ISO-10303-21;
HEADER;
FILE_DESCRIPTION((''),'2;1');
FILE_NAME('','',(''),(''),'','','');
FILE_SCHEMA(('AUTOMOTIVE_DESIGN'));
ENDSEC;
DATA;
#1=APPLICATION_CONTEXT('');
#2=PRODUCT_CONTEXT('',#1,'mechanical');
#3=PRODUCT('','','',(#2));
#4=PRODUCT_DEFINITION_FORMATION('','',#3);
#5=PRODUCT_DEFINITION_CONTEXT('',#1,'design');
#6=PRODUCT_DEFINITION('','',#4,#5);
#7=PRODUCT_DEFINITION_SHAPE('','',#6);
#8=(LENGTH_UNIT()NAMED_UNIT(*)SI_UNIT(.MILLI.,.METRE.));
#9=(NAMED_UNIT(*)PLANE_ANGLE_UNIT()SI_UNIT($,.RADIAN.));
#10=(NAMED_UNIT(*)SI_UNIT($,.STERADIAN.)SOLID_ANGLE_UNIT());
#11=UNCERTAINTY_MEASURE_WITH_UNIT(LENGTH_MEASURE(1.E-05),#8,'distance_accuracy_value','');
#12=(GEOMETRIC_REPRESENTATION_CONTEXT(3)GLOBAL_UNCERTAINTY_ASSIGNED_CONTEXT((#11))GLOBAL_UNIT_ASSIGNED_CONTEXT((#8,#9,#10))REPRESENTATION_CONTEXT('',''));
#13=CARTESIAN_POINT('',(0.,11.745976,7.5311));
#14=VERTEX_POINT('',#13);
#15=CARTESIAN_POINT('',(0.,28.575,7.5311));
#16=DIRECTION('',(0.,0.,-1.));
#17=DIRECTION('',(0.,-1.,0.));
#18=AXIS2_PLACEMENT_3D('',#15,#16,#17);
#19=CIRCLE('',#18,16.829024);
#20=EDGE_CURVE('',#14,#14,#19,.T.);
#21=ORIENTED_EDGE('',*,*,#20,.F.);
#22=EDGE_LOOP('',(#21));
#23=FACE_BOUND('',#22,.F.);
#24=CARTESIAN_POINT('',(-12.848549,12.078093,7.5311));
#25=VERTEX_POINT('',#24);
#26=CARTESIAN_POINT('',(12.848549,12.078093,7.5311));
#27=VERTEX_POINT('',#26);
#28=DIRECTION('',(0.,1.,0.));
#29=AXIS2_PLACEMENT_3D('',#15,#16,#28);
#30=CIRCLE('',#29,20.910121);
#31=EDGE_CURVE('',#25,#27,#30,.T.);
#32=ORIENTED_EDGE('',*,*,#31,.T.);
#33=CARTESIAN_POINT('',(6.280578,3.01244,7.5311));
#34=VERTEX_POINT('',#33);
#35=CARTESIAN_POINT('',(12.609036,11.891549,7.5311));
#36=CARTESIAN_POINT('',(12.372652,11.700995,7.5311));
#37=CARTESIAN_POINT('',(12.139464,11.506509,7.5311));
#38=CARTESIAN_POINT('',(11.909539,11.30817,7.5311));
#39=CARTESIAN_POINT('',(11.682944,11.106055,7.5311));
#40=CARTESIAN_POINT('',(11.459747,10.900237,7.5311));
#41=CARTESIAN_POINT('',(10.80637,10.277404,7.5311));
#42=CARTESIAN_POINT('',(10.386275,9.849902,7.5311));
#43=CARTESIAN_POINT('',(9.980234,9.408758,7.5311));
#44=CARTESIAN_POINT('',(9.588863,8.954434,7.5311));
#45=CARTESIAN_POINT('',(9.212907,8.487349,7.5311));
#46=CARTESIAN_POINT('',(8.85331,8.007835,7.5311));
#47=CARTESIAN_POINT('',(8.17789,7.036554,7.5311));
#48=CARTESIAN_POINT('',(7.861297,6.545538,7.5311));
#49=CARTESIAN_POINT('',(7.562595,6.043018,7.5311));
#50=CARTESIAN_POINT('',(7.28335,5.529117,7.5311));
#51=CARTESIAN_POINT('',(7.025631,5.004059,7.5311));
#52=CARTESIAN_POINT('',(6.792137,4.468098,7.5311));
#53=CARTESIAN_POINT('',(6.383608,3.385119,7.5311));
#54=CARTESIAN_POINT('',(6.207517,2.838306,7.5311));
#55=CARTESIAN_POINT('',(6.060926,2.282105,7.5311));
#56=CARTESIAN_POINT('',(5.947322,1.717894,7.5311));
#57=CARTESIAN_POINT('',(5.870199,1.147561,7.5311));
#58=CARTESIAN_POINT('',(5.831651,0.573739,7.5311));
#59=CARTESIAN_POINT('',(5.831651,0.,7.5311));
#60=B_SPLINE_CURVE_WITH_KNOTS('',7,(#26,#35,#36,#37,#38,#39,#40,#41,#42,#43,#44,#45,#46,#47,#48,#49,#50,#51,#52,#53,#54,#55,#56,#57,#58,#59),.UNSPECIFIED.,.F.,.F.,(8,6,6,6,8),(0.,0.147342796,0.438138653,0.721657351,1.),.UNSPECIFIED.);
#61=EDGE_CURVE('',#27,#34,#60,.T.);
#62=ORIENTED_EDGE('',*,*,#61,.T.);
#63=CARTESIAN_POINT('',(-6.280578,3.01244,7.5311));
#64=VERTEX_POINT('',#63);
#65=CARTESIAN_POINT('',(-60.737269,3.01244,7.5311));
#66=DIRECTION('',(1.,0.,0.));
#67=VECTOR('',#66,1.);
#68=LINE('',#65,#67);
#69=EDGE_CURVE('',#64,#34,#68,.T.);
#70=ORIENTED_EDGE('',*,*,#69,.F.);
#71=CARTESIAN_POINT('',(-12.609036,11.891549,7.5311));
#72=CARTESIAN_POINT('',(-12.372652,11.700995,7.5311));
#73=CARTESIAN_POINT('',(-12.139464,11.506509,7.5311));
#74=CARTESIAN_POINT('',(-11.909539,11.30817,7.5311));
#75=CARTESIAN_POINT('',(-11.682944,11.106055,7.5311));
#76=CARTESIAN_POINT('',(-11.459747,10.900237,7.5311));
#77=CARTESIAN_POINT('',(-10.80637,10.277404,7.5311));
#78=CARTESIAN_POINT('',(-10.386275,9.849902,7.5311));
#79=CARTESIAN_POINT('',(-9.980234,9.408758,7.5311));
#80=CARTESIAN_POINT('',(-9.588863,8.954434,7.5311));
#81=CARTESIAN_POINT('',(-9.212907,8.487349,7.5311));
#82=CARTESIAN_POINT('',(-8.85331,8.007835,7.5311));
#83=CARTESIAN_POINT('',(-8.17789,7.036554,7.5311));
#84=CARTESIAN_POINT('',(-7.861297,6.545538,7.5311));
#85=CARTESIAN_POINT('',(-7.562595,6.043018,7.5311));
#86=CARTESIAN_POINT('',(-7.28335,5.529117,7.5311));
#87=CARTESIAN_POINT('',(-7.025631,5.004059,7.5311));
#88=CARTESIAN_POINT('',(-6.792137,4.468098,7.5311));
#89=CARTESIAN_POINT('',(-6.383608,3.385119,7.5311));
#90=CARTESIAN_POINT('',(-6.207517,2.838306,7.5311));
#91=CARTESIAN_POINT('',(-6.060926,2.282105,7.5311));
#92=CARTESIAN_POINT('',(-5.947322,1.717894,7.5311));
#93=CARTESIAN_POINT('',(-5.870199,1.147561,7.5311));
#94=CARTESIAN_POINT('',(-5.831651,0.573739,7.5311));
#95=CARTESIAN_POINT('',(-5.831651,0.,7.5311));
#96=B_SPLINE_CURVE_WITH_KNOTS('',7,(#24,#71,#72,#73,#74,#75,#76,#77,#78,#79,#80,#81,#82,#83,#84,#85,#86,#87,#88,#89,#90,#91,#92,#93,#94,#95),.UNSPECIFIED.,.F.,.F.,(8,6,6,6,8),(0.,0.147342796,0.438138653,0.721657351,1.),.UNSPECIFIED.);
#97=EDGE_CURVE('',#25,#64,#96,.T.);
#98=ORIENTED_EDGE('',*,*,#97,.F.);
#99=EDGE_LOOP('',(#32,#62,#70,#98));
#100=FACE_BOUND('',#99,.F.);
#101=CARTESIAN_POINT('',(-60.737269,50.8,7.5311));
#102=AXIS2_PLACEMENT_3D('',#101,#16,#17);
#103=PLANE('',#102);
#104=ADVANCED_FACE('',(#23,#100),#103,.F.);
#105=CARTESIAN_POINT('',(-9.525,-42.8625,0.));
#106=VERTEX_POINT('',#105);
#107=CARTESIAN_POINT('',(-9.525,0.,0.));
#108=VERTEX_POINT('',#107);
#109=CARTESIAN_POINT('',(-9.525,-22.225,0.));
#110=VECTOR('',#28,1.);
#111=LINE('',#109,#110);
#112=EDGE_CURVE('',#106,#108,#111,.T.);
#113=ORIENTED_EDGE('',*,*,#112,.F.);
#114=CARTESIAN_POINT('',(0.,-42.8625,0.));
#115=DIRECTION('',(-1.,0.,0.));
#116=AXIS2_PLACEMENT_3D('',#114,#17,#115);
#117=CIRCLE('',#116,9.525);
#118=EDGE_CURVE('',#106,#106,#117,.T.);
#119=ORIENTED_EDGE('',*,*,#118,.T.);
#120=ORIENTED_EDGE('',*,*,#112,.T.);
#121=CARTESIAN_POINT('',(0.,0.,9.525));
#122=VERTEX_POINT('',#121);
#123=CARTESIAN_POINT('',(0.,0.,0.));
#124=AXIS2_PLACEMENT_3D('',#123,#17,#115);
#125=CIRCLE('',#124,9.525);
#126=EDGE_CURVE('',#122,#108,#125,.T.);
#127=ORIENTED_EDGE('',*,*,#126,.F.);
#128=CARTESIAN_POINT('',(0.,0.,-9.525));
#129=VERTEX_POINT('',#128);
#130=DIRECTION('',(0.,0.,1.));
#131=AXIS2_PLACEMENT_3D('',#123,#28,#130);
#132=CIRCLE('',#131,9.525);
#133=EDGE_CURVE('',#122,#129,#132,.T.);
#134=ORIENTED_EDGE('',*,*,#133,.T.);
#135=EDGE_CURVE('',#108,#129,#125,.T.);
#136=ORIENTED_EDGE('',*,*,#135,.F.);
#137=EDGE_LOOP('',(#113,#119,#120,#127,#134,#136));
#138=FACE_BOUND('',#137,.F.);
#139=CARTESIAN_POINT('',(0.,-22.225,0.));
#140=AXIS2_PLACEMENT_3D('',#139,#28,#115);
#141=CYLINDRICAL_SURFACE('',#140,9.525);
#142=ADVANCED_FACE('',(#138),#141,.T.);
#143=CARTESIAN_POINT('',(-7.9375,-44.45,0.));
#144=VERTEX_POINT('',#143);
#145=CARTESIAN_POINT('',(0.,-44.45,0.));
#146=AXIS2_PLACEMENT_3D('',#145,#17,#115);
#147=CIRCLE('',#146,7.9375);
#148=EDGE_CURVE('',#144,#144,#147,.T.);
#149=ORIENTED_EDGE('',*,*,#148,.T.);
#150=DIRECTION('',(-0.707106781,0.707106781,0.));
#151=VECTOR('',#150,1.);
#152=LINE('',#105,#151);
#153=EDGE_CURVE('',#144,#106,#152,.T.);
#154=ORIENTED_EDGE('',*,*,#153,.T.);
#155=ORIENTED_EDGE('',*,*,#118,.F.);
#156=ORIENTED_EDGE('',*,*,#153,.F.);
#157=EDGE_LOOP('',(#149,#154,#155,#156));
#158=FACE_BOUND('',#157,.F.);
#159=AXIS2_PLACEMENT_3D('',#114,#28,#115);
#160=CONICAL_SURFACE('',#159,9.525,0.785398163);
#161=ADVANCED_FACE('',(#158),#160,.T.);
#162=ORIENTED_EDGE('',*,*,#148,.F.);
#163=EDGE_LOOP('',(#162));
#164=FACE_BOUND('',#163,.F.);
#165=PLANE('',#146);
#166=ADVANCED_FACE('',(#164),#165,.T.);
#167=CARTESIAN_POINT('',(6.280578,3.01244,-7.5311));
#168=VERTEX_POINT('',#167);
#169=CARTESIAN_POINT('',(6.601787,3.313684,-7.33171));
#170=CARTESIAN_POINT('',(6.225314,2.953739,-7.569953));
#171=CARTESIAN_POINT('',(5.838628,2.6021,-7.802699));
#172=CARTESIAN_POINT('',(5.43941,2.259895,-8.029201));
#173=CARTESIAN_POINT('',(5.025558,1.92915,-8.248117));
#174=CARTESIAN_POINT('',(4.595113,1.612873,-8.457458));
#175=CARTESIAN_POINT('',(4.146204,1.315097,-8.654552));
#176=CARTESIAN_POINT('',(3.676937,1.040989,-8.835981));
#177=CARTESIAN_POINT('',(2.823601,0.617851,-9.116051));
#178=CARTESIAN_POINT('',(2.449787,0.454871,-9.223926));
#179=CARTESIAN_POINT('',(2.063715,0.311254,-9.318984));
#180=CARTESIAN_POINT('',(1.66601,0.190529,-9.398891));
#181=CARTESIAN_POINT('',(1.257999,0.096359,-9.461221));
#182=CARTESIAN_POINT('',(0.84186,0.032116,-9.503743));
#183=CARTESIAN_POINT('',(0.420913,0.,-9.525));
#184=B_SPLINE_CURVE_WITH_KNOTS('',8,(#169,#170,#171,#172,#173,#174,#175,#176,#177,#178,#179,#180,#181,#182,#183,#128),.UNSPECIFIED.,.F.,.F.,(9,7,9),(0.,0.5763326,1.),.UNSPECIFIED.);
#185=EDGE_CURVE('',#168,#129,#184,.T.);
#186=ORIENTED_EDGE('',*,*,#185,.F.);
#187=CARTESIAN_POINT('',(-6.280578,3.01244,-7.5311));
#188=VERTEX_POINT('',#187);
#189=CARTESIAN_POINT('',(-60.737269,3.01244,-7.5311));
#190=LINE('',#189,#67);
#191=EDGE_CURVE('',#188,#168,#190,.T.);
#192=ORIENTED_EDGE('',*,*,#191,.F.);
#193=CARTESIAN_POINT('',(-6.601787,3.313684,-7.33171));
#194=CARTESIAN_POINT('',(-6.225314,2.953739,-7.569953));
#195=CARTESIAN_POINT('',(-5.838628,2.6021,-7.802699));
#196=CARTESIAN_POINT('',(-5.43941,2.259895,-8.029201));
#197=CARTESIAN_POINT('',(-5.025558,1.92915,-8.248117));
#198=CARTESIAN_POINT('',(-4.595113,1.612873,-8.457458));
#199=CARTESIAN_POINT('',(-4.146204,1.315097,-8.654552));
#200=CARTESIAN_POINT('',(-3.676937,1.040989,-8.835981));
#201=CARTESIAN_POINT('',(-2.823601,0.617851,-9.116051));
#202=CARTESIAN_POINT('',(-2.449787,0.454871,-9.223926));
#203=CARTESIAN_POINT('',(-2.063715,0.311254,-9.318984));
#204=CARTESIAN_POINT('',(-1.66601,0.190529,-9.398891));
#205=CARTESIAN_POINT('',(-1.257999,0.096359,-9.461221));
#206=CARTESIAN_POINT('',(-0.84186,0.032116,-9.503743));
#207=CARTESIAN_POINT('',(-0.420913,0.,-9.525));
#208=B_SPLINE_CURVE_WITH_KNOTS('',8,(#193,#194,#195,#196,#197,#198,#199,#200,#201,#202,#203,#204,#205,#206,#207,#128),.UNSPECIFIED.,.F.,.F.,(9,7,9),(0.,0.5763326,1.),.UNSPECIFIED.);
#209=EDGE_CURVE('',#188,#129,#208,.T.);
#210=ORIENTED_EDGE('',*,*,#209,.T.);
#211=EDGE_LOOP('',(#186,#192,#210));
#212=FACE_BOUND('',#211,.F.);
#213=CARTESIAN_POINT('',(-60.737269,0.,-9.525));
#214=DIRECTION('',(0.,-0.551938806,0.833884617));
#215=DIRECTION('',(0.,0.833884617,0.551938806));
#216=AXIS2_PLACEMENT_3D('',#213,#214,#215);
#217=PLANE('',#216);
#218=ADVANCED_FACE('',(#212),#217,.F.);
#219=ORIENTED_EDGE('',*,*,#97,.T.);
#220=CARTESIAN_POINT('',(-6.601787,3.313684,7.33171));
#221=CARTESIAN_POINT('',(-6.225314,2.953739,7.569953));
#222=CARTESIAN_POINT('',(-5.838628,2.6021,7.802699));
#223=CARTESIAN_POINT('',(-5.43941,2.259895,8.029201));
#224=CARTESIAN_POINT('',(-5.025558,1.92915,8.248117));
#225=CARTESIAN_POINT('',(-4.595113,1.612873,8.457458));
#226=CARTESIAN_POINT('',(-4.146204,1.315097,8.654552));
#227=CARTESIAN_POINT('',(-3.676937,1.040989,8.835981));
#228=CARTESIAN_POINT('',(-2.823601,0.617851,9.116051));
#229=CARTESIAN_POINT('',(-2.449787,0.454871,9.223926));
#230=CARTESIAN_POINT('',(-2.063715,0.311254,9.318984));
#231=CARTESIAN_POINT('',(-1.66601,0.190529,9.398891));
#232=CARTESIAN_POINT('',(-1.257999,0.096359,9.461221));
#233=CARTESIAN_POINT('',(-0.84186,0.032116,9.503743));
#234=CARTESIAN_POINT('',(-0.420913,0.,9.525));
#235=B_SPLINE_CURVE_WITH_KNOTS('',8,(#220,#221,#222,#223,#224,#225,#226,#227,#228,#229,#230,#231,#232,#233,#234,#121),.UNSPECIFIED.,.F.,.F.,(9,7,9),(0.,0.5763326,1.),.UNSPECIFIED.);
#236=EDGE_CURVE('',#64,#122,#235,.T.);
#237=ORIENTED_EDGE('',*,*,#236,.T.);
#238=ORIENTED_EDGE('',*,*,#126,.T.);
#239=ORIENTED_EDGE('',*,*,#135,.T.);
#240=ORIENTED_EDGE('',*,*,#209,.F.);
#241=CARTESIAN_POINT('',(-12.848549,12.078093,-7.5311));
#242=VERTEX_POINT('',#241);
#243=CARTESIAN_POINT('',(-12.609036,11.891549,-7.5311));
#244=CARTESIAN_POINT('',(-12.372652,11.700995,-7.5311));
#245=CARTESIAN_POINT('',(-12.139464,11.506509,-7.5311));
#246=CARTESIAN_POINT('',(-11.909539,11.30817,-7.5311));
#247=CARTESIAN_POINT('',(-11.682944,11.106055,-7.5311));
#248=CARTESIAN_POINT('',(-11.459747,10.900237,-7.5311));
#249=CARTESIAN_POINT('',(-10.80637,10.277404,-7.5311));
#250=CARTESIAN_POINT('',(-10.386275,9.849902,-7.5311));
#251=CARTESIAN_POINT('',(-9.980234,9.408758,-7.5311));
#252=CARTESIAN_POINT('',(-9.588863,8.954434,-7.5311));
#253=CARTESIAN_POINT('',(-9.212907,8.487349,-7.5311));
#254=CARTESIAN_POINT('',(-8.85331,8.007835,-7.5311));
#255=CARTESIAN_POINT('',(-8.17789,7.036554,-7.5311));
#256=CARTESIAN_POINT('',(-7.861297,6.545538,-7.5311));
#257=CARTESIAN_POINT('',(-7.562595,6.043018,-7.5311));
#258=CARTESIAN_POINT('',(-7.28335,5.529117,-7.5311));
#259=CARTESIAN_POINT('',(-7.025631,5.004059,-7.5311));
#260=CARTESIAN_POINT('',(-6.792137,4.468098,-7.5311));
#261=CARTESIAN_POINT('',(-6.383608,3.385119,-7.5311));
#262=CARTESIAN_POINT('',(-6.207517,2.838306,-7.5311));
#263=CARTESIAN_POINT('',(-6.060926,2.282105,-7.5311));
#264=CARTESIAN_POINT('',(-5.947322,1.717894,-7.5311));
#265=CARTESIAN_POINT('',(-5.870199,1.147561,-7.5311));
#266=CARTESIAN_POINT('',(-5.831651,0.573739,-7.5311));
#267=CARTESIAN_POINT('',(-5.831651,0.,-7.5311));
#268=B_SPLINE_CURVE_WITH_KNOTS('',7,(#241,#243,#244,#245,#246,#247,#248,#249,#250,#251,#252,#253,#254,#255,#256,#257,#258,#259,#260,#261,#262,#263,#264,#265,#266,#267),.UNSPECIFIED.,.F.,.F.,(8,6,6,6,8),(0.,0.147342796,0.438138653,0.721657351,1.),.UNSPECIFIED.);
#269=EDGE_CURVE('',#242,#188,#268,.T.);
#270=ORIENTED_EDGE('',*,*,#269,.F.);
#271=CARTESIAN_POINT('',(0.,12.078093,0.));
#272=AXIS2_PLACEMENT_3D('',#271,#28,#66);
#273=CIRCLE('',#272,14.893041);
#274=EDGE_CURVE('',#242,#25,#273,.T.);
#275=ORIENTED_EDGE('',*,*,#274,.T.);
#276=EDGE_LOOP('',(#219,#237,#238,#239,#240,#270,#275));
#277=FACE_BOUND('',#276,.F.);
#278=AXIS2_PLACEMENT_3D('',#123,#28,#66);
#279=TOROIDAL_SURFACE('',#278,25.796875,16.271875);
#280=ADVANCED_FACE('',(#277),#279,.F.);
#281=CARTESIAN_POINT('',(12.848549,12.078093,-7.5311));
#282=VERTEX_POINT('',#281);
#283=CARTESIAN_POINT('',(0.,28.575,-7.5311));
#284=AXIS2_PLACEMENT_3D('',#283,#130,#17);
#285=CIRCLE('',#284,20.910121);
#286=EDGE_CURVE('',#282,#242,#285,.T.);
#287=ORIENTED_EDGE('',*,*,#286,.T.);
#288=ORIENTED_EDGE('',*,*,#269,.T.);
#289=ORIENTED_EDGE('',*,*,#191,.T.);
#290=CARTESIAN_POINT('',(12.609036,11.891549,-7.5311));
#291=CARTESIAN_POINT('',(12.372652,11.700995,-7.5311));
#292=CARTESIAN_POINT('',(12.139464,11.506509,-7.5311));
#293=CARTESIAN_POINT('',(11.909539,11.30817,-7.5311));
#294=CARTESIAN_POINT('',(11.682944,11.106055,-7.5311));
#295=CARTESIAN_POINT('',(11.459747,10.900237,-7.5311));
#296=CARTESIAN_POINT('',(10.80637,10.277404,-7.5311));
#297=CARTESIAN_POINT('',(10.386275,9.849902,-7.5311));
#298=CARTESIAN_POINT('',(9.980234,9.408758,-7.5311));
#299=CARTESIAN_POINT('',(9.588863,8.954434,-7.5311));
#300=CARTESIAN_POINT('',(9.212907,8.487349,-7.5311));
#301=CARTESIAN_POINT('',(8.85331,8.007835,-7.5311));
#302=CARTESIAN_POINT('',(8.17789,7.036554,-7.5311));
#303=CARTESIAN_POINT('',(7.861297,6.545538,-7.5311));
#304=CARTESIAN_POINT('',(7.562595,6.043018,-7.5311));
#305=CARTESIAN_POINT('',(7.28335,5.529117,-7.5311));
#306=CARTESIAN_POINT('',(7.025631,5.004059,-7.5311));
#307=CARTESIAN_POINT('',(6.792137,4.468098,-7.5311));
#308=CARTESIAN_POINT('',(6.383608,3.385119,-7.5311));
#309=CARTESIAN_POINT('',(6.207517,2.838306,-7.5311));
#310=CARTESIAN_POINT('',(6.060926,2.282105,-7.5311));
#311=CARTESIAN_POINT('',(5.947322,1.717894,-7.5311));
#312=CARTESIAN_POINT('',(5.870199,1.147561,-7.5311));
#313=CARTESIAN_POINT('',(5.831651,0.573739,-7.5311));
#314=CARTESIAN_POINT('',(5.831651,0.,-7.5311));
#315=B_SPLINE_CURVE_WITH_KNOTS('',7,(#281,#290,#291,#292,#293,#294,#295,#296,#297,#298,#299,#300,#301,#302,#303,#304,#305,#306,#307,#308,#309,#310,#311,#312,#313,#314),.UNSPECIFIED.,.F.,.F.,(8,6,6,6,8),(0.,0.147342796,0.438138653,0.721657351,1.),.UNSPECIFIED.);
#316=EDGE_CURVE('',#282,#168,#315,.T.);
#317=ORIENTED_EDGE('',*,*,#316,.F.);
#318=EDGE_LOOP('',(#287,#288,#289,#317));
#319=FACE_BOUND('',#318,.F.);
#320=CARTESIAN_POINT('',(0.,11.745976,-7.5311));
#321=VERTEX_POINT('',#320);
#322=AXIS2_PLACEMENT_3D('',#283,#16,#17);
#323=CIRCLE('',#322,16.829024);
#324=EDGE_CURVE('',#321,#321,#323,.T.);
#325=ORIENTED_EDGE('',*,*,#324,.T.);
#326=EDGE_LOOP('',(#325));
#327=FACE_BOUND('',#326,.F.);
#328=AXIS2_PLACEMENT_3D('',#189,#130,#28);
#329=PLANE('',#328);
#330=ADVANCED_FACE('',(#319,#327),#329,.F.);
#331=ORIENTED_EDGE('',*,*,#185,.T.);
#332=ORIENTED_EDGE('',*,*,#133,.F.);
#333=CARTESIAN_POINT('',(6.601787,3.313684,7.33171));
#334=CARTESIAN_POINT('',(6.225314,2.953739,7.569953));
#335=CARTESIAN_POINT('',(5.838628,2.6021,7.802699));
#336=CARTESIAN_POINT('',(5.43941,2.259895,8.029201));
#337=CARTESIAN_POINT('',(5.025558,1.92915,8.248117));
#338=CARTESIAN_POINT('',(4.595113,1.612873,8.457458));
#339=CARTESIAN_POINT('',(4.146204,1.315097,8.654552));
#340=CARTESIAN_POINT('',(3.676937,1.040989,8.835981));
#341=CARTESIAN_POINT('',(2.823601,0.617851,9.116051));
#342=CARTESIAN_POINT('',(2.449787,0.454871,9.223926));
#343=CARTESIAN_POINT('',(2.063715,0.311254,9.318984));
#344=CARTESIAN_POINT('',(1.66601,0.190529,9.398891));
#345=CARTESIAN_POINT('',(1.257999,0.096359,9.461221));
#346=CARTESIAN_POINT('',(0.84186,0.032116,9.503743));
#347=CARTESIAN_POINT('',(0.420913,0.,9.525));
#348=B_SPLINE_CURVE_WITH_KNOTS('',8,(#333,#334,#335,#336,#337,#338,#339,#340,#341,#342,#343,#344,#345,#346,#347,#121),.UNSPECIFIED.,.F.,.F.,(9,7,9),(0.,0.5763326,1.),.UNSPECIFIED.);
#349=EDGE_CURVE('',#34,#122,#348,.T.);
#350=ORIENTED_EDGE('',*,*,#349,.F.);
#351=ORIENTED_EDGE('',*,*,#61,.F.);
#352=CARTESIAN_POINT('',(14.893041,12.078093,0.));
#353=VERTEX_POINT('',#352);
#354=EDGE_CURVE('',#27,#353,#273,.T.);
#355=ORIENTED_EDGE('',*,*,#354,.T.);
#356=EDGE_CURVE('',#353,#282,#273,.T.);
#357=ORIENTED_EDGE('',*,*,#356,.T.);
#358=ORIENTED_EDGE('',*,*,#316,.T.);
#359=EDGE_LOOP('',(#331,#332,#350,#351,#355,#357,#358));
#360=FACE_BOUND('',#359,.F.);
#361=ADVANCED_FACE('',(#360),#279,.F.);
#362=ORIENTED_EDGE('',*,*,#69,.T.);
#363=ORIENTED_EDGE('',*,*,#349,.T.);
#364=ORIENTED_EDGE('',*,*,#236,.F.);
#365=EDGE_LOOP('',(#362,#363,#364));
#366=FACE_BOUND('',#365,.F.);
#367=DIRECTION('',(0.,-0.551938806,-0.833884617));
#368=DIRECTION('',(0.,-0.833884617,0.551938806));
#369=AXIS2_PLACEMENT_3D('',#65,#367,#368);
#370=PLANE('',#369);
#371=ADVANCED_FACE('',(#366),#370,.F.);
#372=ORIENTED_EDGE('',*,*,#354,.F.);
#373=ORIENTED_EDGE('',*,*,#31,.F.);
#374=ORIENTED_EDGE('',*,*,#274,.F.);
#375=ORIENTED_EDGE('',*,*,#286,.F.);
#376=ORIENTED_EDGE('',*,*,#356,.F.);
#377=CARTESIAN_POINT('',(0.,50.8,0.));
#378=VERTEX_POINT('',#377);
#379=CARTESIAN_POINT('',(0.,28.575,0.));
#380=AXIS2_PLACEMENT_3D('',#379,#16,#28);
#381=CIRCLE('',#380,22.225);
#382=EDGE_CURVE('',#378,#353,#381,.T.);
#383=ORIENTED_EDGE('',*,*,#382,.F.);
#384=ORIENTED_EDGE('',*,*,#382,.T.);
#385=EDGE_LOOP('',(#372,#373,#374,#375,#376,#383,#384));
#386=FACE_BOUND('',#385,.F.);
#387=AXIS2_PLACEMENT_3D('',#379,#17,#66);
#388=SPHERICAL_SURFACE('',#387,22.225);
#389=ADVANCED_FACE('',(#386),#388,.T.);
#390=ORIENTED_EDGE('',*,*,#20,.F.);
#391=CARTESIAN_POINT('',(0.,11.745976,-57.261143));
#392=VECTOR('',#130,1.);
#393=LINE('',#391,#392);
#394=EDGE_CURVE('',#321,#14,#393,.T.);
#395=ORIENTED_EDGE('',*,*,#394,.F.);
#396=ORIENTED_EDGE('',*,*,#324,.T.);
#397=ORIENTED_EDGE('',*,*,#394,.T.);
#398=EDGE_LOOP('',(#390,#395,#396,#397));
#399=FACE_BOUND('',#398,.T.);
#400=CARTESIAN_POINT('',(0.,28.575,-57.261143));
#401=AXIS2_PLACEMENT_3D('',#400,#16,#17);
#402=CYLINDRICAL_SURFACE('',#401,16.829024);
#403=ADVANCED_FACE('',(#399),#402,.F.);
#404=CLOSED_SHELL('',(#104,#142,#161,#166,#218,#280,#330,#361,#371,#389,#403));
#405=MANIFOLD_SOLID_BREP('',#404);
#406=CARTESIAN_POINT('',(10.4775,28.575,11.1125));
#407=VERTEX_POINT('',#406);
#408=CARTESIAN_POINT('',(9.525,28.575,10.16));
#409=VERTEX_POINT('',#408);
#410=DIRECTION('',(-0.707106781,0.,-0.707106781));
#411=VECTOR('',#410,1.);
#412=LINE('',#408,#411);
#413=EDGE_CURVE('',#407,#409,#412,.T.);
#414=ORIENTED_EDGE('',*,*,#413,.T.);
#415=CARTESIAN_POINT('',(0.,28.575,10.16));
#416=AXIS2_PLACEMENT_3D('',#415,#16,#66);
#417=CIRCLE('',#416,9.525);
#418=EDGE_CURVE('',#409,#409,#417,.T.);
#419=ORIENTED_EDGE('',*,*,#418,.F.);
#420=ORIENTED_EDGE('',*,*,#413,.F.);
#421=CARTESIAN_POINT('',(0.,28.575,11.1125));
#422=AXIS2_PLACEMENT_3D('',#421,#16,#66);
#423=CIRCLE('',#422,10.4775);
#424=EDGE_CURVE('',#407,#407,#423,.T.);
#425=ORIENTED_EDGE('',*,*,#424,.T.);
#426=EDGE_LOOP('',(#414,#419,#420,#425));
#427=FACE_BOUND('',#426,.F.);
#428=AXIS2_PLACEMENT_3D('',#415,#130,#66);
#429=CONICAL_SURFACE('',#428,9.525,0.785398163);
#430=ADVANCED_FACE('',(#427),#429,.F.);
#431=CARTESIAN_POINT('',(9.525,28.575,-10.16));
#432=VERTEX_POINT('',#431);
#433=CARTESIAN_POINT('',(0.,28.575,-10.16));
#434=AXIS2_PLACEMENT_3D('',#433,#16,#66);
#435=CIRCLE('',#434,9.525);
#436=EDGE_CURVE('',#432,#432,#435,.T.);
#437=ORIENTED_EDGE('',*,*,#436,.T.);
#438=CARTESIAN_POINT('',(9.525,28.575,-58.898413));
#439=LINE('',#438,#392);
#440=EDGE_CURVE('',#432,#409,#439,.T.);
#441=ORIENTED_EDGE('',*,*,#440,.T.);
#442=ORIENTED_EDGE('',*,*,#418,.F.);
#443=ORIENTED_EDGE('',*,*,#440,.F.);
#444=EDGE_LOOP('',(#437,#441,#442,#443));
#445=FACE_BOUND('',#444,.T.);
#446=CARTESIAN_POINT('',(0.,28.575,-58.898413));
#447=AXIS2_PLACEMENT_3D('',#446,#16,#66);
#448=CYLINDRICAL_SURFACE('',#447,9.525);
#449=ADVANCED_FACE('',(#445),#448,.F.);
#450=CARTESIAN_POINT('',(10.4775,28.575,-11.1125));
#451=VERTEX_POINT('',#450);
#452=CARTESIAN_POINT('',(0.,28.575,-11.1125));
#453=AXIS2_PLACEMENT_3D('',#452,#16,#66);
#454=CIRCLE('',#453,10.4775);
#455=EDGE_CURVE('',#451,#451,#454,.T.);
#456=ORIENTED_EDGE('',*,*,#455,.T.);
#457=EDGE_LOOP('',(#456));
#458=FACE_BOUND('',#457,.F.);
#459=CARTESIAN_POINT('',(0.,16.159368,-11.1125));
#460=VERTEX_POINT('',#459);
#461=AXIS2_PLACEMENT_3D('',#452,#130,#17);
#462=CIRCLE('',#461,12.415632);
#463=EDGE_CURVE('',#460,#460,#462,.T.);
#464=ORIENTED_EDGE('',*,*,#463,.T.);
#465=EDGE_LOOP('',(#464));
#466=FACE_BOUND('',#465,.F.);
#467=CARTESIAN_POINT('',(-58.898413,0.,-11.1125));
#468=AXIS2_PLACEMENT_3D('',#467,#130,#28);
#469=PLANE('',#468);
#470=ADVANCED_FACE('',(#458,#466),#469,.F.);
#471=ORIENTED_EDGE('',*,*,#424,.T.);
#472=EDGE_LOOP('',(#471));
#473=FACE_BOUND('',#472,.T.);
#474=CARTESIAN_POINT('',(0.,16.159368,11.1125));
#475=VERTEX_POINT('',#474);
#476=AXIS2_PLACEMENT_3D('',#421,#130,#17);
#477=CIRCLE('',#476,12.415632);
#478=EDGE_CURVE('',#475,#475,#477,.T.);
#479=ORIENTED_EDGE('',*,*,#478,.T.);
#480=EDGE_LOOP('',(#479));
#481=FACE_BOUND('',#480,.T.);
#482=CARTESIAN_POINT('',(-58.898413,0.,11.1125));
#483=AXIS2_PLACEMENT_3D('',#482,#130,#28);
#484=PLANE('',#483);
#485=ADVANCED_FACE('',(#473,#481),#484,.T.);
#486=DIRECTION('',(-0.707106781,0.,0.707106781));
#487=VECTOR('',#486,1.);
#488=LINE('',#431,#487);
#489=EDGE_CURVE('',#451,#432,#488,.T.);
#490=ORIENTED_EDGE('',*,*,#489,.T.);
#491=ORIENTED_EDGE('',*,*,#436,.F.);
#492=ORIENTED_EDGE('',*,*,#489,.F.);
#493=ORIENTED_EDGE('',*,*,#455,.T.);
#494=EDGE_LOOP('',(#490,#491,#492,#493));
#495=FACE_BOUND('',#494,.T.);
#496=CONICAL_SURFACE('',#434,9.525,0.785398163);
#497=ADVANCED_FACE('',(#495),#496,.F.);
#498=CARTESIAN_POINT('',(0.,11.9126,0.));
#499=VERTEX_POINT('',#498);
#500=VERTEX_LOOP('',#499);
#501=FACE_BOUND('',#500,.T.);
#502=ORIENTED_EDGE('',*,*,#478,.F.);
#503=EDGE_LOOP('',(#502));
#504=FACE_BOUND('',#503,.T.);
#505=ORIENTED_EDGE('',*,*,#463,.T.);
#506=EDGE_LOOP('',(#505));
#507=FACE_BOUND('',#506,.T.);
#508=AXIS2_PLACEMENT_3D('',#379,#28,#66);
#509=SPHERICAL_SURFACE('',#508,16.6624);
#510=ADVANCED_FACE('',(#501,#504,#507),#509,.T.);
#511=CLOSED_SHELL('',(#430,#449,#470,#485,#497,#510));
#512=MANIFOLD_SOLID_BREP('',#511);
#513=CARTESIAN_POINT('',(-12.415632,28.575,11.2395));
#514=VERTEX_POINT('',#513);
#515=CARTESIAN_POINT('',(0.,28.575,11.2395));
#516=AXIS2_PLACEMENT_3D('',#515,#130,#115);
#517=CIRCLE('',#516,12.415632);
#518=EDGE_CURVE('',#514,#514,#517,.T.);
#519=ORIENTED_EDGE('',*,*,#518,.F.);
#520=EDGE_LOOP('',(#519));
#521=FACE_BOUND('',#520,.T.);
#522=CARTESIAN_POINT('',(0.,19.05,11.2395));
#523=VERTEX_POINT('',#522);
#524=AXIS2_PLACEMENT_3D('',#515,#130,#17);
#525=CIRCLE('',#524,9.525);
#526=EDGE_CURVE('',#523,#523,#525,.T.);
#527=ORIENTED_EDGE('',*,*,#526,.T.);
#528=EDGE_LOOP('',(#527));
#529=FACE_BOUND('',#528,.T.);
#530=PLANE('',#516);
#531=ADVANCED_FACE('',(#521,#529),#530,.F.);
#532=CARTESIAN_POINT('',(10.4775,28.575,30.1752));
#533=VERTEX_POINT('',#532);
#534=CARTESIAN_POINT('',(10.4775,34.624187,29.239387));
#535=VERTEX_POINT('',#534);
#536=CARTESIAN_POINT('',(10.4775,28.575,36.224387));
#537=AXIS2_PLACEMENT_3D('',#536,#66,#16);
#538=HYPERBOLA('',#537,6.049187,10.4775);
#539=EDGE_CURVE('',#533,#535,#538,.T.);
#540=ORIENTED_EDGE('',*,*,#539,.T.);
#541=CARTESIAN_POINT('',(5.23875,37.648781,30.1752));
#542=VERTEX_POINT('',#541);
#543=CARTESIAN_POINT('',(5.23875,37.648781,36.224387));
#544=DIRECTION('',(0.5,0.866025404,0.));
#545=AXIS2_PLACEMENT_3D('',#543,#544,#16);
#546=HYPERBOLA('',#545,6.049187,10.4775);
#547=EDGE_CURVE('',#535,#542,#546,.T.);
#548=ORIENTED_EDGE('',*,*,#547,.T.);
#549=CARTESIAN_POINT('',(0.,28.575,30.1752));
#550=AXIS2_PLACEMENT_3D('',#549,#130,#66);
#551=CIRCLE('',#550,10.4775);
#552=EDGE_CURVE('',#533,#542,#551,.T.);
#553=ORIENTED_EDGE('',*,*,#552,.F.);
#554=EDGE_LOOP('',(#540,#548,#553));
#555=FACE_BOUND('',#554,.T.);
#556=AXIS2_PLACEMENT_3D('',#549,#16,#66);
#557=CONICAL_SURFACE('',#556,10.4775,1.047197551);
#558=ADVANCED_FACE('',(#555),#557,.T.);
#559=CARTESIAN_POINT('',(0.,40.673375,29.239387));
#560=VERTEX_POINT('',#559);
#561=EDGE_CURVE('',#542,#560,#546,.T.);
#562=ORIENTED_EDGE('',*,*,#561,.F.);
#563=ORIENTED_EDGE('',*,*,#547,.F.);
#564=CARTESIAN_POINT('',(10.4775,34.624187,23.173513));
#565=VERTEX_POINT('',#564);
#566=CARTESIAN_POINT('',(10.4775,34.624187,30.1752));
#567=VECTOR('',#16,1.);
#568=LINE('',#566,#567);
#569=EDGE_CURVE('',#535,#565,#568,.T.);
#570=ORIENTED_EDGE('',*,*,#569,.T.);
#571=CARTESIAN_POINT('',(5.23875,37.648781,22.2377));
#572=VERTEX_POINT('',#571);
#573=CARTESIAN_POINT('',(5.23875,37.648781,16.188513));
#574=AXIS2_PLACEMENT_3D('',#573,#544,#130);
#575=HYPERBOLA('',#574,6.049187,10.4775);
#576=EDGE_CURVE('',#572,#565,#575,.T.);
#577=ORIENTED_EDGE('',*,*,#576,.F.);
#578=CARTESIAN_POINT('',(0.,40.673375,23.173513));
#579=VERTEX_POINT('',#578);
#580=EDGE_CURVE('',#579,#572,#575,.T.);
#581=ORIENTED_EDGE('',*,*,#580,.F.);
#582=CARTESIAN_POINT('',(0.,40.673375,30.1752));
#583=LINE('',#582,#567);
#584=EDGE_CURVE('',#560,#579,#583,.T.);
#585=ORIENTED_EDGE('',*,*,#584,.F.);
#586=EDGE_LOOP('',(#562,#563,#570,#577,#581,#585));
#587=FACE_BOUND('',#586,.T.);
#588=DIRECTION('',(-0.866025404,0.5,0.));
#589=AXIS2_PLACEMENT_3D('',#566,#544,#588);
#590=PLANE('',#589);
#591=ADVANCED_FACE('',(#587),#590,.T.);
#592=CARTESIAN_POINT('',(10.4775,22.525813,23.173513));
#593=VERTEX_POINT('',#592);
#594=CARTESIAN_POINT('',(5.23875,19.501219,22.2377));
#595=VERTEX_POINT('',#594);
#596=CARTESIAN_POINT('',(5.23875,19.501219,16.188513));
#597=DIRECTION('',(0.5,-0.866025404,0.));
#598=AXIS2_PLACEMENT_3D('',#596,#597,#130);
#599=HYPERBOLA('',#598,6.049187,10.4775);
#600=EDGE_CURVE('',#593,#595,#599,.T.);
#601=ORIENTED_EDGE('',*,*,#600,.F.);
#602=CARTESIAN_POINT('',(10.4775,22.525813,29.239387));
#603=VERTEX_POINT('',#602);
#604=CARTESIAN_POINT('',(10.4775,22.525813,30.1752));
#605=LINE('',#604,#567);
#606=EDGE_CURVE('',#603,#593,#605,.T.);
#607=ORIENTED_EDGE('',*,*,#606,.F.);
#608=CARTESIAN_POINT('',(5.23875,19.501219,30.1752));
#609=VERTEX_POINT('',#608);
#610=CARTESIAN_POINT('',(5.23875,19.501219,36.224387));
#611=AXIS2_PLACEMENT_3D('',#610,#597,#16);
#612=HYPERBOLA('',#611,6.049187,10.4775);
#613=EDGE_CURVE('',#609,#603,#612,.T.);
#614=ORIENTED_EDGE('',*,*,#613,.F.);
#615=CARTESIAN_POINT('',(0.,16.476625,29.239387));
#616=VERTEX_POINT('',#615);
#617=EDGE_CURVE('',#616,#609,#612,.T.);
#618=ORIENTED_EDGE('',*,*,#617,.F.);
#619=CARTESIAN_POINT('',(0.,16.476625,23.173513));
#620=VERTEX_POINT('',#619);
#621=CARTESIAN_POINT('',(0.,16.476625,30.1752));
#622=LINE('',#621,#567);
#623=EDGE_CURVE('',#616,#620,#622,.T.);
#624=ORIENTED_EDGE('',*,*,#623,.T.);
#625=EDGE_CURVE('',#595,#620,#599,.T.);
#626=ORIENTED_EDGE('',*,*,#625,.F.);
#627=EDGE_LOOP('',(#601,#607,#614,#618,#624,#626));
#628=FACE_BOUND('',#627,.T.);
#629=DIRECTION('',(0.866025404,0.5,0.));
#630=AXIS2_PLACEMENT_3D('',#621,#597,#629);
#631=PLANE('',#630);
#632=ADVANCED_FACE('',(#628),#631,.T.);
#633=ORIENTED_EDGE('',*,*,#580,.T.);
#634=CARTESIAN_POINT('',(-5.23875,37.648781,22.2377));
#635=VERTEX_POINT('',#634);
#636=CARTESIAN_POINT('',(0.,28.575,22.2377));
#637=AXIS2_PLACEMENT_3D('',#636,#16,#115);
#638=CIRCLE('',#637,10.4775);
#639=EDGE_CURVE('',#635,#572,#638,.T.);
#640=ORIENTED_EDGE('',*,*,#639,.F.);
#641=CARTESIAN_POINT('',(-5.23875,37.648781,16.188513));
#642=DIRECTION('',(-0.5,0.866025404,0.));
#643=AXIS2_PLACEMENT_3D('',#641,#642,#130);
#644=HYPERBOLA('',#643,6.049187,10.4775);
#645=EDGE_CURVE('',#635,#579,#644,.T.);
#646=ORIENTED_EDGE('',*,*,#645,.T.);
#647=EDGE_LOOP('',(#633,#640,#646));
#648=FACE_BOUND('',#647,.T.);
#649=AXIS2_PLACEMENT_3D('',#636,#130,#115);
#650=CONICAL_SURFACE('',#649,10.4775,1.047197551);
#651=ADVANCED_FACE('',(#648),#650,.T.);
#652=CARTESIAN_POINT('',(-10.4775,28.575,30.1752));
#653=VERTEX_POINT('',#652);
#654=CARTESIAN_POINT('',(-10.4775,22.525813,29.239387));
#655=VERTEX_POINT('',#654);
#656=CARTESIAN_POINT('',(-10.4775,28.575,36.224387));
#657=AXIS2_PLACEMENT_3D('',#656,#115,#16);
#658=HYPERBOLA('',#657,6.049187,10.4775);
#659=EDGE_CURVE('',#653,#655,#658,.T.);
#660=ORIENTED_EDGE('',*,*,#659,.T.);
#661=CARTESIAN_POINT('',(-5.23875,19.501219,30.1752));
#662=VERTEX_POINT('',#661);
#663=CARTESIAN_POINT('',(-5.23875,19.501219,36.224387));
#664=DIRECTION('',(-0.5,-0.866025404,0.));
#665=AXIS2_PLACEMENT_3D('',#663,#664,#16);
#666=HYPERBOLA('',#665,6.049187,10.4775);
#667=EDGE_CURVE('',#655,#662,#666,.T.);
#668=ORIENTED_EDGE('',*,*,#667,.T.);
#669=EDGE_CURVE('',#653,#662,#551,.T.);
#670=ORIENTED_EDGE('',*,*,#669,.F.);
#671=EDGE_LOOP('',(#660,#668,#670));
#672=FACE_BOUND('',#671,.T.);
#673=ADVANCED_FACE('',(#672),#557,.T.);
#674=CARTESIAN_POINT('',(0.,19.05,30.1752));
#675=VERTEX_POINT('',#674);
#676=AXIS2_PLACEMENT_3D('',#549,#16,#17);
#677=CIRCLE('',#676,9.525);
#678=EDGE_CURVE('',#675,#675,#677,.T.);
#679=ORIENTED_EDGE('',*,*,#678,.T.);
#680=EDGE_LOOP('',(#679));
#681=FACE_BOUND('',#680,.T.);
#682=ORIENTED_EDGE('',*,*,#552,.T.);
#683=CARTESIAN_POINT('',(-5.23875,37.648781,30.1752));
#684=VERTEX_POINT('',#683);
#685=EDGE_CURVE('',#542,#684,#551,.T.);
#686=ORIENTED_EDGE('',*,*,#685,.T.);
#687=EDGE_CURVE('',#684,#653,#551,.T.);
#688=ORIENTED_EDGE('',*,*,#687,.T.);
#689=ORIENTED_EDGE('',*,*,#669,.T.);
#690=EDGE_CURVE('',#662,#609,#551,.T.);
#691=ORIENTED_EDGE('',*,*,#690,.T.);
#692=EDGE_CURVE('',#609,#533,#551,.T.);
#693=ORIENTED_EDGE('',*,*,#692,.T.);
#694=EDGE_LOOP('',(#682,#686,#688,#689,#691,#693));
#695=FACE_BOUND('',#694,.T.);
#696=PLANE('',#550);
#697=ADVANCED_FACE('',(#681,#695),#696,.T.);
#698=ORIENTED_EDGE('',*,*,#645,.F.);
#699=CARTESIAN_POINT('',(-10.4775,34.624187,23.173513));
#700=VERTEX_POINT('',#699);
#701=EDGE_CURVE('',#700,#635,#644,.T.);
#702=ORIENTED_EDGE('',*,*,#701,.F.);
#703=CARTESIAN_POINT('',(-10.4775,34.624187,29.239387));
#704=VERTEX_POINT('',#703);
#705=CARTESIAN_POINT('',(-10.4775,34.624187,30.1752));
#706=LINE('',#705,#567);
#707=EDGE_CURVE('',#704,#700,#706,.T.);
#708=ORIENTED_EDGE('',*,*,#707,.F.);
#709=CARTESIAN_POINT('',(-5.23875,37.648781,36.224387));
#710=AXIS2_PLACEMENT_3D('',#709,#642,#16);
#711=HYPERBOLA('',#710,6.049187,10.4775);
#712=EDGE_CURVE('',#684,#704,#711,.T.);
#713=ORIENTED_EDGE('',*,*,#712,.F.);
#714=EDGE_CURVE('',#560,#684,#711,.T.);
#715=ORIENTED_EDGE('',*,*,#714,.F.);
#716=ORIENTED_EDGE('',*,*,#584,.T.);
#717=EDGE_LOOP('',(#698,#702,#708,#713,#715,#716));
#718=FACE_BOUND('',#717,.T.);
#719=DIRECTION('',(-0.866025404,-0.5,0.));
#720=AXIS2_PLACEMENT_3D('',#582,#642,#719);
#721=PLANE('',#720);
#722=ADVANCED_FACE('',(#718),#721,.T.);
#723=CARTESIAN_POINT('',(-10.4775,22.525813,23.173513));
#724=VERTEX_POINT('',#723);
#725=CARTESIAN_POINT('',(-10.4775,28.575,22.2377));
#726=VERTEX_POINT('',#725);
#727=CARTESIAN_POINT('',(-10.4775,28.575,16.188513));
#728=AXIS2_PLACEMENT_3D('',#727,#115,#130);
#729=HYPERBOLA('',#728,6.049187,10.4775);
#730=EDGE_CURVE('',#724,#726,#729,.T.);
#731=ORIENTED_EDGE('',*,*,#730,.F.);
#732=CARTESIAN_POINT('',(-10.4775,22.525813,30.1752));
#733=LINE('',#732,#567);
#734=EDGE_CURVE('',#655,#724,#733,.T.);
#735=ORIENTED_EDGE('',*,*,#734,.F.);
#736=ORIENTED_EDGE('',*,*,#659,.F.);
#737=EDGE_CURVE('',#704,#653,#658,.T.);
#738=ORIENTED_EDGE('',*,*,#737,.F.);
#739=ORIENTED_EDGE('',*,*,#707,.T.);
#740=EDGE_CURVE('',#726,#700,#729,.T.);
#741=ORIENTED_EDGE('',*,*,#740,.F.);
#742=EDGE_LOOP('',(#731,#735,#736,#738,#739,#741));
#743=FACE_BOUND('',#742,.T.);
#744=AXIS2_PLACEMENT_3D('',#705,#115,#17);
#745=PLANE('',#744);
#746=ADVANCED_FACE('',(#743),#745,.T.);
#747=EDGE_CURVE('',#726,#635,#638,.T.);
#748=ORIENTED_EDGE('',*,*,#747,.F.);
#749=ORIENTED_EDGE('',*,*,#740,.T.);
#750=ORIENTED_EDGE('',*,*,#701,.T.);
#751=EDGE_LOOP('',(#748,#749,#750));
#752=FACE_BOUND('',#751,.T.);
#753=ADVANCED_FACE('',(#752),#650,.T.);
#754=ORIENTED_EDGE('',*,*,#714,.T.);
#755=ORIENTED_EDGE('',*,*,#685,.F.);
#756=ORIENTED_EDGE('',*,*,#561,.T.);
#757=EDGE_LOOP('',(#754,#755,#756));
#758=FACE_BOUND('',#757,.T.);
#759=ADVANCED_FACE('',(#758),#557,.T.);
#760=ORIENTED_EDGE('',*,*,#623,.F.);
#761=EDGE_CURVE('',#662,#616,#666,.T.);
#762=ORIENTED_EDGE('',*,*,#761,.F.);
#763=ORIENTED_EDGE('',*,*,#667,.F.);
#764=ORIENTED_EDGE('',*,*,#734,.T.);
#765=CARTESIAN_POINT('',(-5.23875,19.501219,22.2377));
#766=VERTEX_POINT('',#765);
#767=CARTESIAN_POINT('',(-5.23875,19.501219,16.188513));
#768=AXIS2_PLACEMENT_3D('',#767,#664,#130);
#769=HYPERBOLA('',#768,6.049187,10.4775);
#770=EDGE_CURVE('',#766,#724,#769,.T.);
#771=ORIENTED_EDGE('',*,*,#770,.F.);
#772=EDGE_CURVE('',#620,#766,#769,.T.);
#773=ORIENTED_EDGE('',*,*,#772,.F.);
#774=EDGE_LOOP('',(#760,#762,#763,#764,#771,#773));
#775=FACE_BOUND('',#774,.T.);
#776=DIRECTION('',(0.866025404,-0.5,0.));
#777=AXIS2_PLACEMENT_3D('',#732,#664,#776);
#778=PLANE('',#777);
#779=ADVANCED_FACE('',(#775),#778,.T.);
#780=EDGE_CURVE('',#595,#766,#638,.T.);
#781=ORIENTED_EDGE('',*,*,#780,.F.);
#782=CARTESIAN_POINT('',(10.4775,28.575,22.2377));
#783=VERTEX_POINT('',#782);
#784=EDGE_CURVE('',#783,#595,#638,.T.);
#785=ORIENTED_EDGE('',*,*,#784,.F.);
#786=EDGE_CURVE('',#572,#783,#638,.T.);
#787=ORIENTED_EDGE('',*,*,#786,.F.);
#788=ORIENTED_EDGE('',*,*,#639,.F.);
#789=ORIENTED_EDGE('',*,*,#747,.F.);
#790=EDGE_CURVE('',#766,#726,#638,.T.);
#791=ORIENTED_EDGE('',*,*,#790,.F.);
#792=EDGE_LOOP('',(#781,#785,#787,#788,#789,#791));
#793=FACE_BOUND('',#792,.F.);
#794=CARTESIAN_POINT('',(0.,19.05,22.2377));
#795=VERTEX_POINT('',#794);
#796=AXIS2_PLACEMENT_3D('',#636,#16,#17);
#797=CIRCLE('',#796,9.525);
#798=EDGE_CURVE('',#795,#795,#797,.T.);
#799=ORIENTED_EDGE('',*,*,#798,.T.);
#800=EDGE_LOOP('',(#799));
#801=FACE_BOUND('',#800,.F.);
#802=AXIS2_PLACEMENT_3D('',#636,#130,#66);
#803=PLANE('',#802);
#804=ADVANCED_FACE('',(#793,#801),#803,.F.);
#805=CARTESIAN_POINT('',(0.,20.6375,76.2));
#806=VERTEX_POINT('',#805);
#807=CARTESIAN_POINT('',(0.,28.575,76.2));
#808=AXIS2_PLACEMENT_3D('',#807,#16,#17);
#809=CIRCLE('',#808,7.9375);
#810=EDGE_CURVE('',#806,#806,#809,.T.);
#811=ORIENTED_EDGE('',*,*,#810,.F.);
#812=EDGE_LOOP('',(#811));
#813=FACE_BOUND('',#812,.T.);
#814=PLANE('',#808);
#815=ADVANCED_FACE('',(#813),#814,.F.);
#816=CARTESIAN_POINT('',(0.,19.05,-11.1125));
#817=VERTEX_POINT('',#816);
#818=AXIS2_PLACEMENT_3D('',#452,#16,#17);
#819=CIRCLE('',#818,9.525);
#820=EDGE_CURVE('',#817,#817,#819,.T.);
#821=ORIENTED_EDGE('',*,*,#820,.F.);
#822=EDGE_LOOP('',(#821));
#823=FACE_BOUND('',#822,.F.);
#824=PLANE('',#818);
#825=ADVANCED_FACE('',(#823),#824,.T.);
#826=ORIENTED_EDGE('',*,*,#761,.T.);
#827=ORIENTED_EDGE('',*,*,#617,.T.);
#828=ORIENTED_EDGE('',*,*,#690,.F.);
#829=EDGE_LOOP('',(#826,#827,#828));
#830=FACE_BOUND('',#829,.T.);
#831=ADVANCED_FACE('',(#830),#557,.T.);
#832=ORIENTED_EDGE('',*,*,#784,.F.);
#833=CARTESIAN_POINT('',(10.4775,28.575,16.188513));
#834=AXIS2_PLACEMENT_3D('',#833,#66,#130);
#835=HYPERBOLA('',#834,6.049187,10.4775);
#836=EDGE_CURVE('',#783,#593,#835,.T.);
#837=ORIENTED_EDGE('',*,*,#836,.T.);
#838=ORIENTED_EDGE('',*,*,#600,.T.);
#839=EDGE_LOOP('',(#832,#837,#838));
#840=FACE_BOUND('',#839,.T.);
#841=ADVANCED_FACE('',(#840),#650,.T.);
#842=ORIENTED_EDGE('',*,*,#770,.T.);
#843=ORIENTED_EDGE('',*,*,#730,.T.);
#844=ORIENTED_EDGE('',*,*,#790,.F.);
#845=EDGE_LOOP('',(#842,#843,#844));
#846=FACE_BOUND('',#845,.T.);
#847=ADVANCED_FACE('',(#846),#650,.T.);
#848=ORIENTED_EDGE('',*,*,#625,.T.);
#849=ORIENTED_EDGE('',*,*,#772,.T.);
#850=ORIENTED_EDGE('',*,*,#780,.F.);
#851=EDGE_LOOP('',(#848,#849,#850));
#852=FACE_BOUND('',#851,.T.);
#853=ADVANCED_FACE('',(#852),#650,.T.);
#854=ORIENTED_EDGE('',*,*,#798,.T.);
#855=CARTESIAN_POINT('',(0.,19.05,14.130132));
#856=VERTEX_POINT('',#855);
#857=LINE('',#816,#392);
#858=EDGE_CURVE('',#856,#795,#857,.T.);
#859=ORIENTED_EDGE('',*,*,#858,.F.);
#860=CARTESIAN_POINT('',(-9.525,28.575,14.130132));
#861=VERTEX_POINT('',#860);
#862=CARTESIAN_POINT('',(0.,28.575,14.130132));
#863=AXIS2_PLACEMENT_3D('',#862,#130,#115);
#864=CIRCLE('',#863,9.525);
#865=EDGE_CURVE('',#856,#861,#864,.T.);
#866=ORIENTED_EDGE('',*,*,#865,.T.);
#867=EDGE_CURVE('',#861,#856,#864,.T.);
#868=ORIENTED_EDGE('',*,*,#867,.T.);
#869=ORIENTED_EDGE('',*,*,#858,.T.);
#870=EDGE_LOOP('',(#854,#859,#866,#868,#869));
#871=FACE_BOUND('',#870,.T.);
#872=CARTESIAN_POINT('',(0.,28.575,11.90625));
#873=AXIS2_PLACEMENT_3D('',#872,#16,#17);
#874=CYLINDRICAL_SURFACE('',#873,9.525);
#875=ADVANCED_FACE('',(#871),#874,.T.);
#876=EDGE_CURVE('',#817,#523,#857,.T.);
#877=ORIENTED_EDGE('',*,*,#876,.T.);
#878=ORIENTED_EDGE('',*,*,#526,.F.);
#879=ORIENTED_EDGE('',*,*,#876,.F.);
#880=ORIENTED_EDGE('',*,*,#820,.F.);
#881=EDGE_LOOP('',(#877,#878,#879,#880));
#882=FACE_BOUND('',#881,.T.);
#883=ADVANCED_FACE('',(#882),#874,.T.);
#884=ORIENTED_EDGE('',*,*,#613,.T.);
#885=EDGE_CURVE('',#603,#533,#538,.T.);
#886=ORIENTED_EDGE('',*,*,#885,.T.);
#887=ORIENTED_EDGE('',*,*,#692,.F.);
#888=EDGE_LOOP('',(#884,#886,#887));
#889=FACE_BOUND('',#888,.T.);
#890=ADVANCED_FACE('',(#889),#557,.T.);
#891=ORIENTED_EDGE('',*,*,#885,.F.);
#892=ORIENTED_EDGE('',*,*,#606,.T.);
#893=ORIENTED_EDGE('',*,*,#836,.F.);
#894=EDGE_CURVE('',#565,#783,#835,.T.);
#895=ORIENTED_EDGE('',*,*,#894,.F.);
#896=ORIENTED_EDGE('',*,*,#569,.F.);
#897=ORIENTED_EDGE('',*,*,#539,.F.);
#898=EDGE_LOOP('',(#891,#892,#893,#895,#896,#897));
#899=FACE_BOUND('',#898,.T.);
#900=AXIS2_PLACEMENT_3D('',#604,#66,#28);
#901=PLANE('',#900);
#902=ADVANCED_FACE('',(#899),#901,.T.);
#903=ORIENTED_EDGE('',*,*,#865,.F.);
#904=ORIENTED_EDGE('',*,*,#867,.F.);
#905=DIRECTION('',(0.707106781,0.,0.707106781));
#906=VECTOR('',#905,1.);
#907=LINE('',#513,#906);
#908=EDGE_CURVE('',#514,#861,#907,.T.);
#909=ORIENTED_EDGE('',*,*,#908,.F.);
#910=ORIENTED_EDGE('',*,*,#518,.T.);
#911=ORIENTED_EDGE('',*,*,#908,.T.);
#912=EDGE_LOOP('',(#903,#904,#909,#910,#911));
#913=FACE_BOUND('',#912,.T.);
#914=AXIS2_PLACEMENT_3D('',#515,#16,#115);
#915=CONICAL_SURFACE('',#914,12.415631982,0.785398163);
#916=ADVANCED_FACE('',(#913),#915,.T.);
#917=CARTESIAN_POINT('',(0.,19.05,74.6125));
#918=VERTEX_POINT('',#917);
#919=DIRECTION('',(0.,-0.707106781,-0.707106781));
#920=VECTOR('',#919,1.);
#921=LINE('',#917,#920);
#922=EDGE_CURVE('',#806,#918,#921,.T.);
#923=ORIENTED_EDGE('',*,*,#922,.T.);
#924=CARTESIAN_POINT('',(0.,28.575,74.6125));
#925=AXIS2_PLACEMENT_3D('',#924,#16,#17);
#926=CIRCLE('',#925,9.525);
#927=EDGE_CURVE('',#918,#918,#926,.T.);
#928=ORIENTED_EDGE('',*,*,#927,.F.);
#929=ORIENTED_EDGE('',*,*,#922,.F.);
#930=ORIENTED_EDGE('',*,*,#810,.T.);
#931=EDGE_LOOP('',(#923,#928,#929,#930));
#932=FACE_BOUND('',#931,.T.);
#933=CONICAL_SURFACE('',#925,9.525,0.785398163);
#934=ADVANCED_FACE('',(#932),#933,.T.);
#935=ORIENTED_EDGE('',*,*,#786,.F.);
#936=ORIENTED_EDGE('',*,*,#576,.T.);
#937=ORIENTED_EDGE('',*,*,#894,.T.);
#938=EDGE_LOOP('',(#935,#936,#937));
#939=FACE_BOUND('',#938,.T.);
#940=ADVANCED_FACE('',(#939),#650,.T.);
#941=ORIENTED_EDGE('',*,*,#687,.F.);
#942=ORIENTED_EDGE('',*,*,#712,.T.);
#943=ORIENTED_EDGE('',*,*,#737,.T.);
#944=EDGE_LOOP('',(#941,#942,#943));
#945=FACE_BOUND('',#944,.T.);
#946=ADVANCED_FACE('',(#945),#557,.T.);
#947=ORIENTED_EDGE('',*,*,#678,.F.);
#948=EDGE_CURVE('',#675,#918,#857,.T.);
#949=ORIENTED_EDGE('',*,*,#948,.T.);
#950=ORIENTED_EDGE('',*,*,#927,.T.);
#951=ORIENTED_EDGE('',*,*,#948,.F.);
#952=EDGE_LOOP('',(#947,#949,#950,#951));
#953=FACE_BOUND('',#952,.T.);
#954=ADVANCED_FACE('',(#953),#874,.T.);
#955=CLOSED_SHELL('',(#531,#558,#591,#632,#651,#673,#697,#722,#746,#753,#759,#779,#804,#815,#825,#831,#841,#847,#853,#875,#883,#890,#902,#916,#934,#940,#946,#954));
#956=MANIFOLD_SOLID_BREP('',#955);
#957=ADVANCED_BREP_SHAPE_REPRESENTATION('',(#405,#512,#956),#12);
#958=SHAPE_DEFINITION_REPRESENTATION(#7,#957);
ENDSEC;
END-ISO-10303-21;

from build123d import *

# Parameters (mm, degrees)
SKETCH1_W               = 9.525
SKETCH1_H               = 44.45
CHAMFER2_SIZE           = 1.5875
CUT_EXTRUDE1_DEPTH      = 60.737268518
CUT_EXTRUDE1_DEPTH_BACK = 60.737268518
CUT_EXTRUDE2_DEPTH      = 57.261143358
CUT_EXTRUDE2_DEPTH_BACK = 57.261143358
SKETCH6_R               = 16.829024
CUT_EXTRUDE3_DEPTH      = 58.898412748
CUT_EXTRUDE3_DEPTH_BACK = 58.898412748
SKETCH8_W               = 11.1125
SKETCH8_H               = 50.8
CUT_EXTRUDE4_DEPTH      = 58.898412748
CUT_EXTRUDE4_DEPTH_BACK = 58.898412748
SKETCH10_R              = 9.525
CHAMFER1_SIZE           = 0.9525
SKETCH12_W              = 41.275
SKETCH12_H              = 9.525
CHAMFER3_SIZE           = 1.5875
SKETCH15_W              = 46.0375
SKETCH15_H              = 9.525
EXTRUDE1_DEPTH          = 7.9375
SKETCH17_OUTSIDE_W      = 329.402
SKETCH17_OUTSIDE_H      = 380.202
SKETCH17_OUTSIDE_R      = 10.4775
CUT_EXTRUDE5_DEPTH      = 73.583409942
CUT_EXTRUDE5_DRAFT      = -60
SKETCH18_OUTSIDE_W      = 345.992
SKETCH18_OUTSIDE_H      = 396.792
SKETCH18_OUTSIDE_R      = 10.4775
CUT_EXTRUDE6_DEPTH      = 78.372607855
CUT_EXTRUDE6_DRAFT      = -60


with BuildPart() as part:
    # Sketch1 → Revolve1 (revolve)
    with BuildSketch(Plane.XY, mode=Mode.PRIVATE) as revolve1_sk:
        with Locations((4.7625, -22.225)):
            Rectangle(SKETCH1_W, SKETCH1_H)
    revolve(revolve1_sk.sketch.rotate(Axis((0, 50.8, 0), (0, -1, 0)), 180), axis=Axis((0, 50.8, 0), (0, -1, 0)))

    # Chamfer2
    chamfer2_edges = [part.edges().sort_by_distance(p)[0] for p in [
        (9.525, -44.45, 0),
    ]]
    chamfer(chamfer2_edges, length=CHAMFER2_SIZE)

    # Sketch4 → Revolve2 (revolve)
    with BuildSketch(Plane.XY):
        with BuildLine():
            Line((9.525, 0), (0, 0))
            Line((0, 0), (0, 50.8))
            ThreePointArc((0, 50.8), (20.743606098, 36.553310038), (14.893041237, 12.078092784))
            ThreePointArc((14.893041237, 12.078092784), (10.927447707, 6.608634352), (9.525, 0))
        make_face()
    revolve(axis=Axis((0, 50.8, 0), (0, 1, 0)))

    # Sketch5 → Cut-Extrude1 (cut, two sides: drawn at the far end of the back side and taken through both)
    with BuildSketch(Plane(origin=(0, 0, 0), x_dir=(0, 0, -1), z_dir=(1, 0, 0)).offset(-CUT_EXTRUDE1_DEPTH_BACK)):
        Polygon((7.5311, 50.8), (22.225, 50.8), (22.225, 0), (9.525, 0), (7.5311, 3.01244), align=None)
        Polygon((-7.5311, 50.8), (-7.5311, 3.01244), (-9.525, 0), (-22.225, 0), (-22.225, 50.8), align=None)
    extrude(amount=CUT_EXTRUDE1_DEPTH + CUT_EXTRUDE1_DEPTH_BACK, mode=Mode.SUBTRACT)

    # Sketch6 → Cut-Extrude2 (cut, two sides: drawn at the far end of the back side and taken through both)
    with BuildSketch(Plane.XY.offset(-CUT_EXTRUDE2_DEPTH_BACK)):
        with Locations(Location((0, 28.575, 0), (0, 0, 270))):
            Circle(SKETCH6_R)
    extrude(amount=CUT_EXTRUDE2_DEPTH + CUT_EXTRUDE2_DEPTH_BACK, mode=Mode.SUBTRACT)


with BuildPart() as body_2:
    # Sketch7 → Revolve3 (revolve)
    with BuildSketch(Plane.XY):
        with BuildLine():
            Line((0, 45.2374), (0, 11.9126))
            ThreePointArc((0, 11.9126), (16.6624, 28.575), (0, 45.2374))
        make_face()
    revolve(axis=Axis((0, 0, 0), (0, 1, 0)))

    # Sketch8 → Cut-Extrude3 (cut, two sides: drawn at the far end of the back side and taken through both)
    with BuildSketch(Plane(origin=(0, 0, 0), x_dir=(0, 0, -1), z_dir=(1, 0, 0)).offset(-CUT_EXTRUDE3_DEPTH_BACK)):
        with Locations((-16.66875, 25.4)):
            Rectangle(SKETCH8_W, SKETCH8_H)
        with Locations((16.66875, 25.4)):
            Rectangle(SKETCH8_W, SKETCH8_H)
    extrude(amount=CUT_EXTRUDE3_DEPTH + CUT_EXTRUDE3_DEPTH_BACK, mode=Mode.SUBTRACT)

    # Sketch10 → Cut-Extrude4 (cut, two sides: drawn at the far end of the back side and taken through both)
    with BuildSketch(Plane.XY.offset(-CUT_EXTRUDE4_DEPTH_BACK)):
        with Locations((0, 28.575)):
            Circle(SKETCH10_R)
    extrude(amount=CUT_EXTRUDE4_DEPTH + CUT_EXTRUDE4_DEPTH_BACK, mode=Mode.SUBTRACT)

    # Chamfer1
    chamfer1_edges = [body_2.edges().sort_by_distance(p)[0] for p in [
        (-9.525, 28.575, -11.1125),
        (-9.525, 28.575, 11.1125),
    ]]
    chamfer(chamfer1_edges, length=CHAMFER1_SIZE)


with BuildPart() as body_3:
    # Sketch12 → Revolve4 (revolve)
    with BuildSketch(Plane(origin=(0, 0, 0), x_dir=(0, 0, -1), z_dir=(1, 0, 0)), mode=Mode.PRIVATE) as revolve4_sk:
        with Locations((-55.5625, 33.3375)):
            Rectangle(SKETCH12_W, SKETCH12_H)
    revolve(revolve4_sk.sketch.rotate(Axis((0, 28.575, -11.1125), (0, 0, -1)), 180), axis=Axis((0, 28.575, -11.1125), (0, 0, -1)))

    # Chamfer3
    chamfer3_edges = [body_3.edges().sort_by_distance(p)[0] for p in [
        (0, 38.1, 76.2),
    ]]
    chamfer(chamfer3_edges, length=CHAMFER3_SIZE)

    # Sketch15 → Revolve5 (revolve)
    with BuildSketch(Plane(origin=(0, 0, 0), x_dir=(0, 0, -1), z_dir=(1, 0, 0)), mode=Mode.PRIVATE) as revolve5_sk:
        with Locations((-11.90625, 33.3375)):
            Rectangle(SKETCH15_W, SKETCH15_H)
    revolve(revolve5_sk.sketch.rotate(Axis((0, 28.575, -11.1125), (0, 0, -1)), 180), axis=Axis((0, 28.575, -11.1125), (0, 0, -1)))

    # Sketch16 → Extrude1 (add)
    with BuildSketch(Plane.XY.offset(30.1752)):
        Polygon((0, 40.673374891), (-10.4775, 34.624187445), (-10.4775, 22.525812555), (0, 16.476625109), (10.4775, 22.525812555), (10.4775, 34.624187445), align=None)
    extrude(amount=-EXTRUDE1_DEPTH)


with BuildPart() as cut_extrude5_tool:
    # Sketch17 outside → Cut-Extrude5 (with draft: the straight prism first)
    with BuildSketch(Plane.XY.offset(30.1752)):
        with Locations((0, 3.175)):
            Rectangle(SKETCH17_OUTSIDE_W, SKETCH17_OUTSIDE_H)
        with Locations((0, 28.575)):
            Circle(SKETCH17_OUTSIDE_R, mode=Mode.SUBTRACT)
    extrude(amount=-CUT_EXTRUDE5_DEPTH)
    # Cut-Extrude5: the draft: its side faces are tilted about the plane it starts from
    cut_extrude5_sides = [cut_extrude5_tool.faces().sort_by_distance(p)[0] for p in [
        (0, -186.926, -6.616504971),
        (164.701, 3.175, -6.616504971),
        (0, 193.276, -6.616504971),
        (-164.701, 3.175, -6.616504971),
        (-10.4775, 28.575, -6.616504971),
    ]]
    draft(cut_extrude5_sides, Plane.XY.offset(30.1752), CUT_EXTRUDE5_DRAFT)


with BuildPart() as body_3_1:
    add(body_3.part)

    # Cut-Extrude5: cut by cut_extrude5_tool
    add(cut_extrude5_tool.part, mode=Mode.SUBTRACT)


with BuildPart() as cut_extrude6_tool:
    # Sketch18 outside → Cut-Extrude6 (with draft: the straight prism first)
    with BuildSketch(Plane(origin=(0, 0, 22.2377), x_dir=(-1, 0, 0), z_dir=(0, 0, -1))):
        with Locations((0, 3.175)):
            Rectangle(SKETCH18_OUTSIDE_W, SKETCH18_OUTSIDE_H)
        with Locations((0, 28.575)):
            Circle(SKETCH18_OUTSIDE_R, mode=Mode.SUBTRACT)
    extrude(amount=-CUT_EXTRUDE6_DEPTH)
    # Cut-Extrude6: the draft: its side faces are tilted about the plane it starts from
    cut_extrude6_sides = [cut_extrude6_tool.faces().sort_by_distance(p)[0] for p in [
        (0, -195.221, 61.424003928),
        (-172.996, 3.175, 61.424003928),
        (0, 201.571, 61.424003928),
        (172.996, 3.175, 61.424003928),
        (10.4775, 28.575, 61.424003928),
    ]]
    draft(cut_extrude6_sides, Plane(origin=(0, 0, 22.2377), x_dir=(-1, 0, 0), z_dir=(0, 0, -1)), CUT_EXTRUDE6_DRAFT)


with BuildPart() as body_3_2:
    add(body_3_1.part)

    # Cut-Extrude6: cut by cut_extrude6_tool
    add(cut_extrude6_tool.part, mode=Mode.SUBTRACT)

    # Sketch20 → Revolve6 (revolve)
    with BuildSketch(Plane(origin=(0, 0, 0), x_dir=(0, 0, -1), z_dir=(1, 0, 0)), mode=Mode.PRIVATE) as revolve6_sk:
        Polygon((-11.2395, 40.990631982), (-14.130131982, 38.1), (-11.2395, 38.1), align=None)
    revolve(revolve6_sk.sketch.rotate(Axis((0, 28.575, -11.1125), (0, 0, 1)), 90), axis=Axis((0, 28.575, -11.1125), (0, 0, 1)))


solid = Compound([part.part, body_2.part, body_3_2.part])
